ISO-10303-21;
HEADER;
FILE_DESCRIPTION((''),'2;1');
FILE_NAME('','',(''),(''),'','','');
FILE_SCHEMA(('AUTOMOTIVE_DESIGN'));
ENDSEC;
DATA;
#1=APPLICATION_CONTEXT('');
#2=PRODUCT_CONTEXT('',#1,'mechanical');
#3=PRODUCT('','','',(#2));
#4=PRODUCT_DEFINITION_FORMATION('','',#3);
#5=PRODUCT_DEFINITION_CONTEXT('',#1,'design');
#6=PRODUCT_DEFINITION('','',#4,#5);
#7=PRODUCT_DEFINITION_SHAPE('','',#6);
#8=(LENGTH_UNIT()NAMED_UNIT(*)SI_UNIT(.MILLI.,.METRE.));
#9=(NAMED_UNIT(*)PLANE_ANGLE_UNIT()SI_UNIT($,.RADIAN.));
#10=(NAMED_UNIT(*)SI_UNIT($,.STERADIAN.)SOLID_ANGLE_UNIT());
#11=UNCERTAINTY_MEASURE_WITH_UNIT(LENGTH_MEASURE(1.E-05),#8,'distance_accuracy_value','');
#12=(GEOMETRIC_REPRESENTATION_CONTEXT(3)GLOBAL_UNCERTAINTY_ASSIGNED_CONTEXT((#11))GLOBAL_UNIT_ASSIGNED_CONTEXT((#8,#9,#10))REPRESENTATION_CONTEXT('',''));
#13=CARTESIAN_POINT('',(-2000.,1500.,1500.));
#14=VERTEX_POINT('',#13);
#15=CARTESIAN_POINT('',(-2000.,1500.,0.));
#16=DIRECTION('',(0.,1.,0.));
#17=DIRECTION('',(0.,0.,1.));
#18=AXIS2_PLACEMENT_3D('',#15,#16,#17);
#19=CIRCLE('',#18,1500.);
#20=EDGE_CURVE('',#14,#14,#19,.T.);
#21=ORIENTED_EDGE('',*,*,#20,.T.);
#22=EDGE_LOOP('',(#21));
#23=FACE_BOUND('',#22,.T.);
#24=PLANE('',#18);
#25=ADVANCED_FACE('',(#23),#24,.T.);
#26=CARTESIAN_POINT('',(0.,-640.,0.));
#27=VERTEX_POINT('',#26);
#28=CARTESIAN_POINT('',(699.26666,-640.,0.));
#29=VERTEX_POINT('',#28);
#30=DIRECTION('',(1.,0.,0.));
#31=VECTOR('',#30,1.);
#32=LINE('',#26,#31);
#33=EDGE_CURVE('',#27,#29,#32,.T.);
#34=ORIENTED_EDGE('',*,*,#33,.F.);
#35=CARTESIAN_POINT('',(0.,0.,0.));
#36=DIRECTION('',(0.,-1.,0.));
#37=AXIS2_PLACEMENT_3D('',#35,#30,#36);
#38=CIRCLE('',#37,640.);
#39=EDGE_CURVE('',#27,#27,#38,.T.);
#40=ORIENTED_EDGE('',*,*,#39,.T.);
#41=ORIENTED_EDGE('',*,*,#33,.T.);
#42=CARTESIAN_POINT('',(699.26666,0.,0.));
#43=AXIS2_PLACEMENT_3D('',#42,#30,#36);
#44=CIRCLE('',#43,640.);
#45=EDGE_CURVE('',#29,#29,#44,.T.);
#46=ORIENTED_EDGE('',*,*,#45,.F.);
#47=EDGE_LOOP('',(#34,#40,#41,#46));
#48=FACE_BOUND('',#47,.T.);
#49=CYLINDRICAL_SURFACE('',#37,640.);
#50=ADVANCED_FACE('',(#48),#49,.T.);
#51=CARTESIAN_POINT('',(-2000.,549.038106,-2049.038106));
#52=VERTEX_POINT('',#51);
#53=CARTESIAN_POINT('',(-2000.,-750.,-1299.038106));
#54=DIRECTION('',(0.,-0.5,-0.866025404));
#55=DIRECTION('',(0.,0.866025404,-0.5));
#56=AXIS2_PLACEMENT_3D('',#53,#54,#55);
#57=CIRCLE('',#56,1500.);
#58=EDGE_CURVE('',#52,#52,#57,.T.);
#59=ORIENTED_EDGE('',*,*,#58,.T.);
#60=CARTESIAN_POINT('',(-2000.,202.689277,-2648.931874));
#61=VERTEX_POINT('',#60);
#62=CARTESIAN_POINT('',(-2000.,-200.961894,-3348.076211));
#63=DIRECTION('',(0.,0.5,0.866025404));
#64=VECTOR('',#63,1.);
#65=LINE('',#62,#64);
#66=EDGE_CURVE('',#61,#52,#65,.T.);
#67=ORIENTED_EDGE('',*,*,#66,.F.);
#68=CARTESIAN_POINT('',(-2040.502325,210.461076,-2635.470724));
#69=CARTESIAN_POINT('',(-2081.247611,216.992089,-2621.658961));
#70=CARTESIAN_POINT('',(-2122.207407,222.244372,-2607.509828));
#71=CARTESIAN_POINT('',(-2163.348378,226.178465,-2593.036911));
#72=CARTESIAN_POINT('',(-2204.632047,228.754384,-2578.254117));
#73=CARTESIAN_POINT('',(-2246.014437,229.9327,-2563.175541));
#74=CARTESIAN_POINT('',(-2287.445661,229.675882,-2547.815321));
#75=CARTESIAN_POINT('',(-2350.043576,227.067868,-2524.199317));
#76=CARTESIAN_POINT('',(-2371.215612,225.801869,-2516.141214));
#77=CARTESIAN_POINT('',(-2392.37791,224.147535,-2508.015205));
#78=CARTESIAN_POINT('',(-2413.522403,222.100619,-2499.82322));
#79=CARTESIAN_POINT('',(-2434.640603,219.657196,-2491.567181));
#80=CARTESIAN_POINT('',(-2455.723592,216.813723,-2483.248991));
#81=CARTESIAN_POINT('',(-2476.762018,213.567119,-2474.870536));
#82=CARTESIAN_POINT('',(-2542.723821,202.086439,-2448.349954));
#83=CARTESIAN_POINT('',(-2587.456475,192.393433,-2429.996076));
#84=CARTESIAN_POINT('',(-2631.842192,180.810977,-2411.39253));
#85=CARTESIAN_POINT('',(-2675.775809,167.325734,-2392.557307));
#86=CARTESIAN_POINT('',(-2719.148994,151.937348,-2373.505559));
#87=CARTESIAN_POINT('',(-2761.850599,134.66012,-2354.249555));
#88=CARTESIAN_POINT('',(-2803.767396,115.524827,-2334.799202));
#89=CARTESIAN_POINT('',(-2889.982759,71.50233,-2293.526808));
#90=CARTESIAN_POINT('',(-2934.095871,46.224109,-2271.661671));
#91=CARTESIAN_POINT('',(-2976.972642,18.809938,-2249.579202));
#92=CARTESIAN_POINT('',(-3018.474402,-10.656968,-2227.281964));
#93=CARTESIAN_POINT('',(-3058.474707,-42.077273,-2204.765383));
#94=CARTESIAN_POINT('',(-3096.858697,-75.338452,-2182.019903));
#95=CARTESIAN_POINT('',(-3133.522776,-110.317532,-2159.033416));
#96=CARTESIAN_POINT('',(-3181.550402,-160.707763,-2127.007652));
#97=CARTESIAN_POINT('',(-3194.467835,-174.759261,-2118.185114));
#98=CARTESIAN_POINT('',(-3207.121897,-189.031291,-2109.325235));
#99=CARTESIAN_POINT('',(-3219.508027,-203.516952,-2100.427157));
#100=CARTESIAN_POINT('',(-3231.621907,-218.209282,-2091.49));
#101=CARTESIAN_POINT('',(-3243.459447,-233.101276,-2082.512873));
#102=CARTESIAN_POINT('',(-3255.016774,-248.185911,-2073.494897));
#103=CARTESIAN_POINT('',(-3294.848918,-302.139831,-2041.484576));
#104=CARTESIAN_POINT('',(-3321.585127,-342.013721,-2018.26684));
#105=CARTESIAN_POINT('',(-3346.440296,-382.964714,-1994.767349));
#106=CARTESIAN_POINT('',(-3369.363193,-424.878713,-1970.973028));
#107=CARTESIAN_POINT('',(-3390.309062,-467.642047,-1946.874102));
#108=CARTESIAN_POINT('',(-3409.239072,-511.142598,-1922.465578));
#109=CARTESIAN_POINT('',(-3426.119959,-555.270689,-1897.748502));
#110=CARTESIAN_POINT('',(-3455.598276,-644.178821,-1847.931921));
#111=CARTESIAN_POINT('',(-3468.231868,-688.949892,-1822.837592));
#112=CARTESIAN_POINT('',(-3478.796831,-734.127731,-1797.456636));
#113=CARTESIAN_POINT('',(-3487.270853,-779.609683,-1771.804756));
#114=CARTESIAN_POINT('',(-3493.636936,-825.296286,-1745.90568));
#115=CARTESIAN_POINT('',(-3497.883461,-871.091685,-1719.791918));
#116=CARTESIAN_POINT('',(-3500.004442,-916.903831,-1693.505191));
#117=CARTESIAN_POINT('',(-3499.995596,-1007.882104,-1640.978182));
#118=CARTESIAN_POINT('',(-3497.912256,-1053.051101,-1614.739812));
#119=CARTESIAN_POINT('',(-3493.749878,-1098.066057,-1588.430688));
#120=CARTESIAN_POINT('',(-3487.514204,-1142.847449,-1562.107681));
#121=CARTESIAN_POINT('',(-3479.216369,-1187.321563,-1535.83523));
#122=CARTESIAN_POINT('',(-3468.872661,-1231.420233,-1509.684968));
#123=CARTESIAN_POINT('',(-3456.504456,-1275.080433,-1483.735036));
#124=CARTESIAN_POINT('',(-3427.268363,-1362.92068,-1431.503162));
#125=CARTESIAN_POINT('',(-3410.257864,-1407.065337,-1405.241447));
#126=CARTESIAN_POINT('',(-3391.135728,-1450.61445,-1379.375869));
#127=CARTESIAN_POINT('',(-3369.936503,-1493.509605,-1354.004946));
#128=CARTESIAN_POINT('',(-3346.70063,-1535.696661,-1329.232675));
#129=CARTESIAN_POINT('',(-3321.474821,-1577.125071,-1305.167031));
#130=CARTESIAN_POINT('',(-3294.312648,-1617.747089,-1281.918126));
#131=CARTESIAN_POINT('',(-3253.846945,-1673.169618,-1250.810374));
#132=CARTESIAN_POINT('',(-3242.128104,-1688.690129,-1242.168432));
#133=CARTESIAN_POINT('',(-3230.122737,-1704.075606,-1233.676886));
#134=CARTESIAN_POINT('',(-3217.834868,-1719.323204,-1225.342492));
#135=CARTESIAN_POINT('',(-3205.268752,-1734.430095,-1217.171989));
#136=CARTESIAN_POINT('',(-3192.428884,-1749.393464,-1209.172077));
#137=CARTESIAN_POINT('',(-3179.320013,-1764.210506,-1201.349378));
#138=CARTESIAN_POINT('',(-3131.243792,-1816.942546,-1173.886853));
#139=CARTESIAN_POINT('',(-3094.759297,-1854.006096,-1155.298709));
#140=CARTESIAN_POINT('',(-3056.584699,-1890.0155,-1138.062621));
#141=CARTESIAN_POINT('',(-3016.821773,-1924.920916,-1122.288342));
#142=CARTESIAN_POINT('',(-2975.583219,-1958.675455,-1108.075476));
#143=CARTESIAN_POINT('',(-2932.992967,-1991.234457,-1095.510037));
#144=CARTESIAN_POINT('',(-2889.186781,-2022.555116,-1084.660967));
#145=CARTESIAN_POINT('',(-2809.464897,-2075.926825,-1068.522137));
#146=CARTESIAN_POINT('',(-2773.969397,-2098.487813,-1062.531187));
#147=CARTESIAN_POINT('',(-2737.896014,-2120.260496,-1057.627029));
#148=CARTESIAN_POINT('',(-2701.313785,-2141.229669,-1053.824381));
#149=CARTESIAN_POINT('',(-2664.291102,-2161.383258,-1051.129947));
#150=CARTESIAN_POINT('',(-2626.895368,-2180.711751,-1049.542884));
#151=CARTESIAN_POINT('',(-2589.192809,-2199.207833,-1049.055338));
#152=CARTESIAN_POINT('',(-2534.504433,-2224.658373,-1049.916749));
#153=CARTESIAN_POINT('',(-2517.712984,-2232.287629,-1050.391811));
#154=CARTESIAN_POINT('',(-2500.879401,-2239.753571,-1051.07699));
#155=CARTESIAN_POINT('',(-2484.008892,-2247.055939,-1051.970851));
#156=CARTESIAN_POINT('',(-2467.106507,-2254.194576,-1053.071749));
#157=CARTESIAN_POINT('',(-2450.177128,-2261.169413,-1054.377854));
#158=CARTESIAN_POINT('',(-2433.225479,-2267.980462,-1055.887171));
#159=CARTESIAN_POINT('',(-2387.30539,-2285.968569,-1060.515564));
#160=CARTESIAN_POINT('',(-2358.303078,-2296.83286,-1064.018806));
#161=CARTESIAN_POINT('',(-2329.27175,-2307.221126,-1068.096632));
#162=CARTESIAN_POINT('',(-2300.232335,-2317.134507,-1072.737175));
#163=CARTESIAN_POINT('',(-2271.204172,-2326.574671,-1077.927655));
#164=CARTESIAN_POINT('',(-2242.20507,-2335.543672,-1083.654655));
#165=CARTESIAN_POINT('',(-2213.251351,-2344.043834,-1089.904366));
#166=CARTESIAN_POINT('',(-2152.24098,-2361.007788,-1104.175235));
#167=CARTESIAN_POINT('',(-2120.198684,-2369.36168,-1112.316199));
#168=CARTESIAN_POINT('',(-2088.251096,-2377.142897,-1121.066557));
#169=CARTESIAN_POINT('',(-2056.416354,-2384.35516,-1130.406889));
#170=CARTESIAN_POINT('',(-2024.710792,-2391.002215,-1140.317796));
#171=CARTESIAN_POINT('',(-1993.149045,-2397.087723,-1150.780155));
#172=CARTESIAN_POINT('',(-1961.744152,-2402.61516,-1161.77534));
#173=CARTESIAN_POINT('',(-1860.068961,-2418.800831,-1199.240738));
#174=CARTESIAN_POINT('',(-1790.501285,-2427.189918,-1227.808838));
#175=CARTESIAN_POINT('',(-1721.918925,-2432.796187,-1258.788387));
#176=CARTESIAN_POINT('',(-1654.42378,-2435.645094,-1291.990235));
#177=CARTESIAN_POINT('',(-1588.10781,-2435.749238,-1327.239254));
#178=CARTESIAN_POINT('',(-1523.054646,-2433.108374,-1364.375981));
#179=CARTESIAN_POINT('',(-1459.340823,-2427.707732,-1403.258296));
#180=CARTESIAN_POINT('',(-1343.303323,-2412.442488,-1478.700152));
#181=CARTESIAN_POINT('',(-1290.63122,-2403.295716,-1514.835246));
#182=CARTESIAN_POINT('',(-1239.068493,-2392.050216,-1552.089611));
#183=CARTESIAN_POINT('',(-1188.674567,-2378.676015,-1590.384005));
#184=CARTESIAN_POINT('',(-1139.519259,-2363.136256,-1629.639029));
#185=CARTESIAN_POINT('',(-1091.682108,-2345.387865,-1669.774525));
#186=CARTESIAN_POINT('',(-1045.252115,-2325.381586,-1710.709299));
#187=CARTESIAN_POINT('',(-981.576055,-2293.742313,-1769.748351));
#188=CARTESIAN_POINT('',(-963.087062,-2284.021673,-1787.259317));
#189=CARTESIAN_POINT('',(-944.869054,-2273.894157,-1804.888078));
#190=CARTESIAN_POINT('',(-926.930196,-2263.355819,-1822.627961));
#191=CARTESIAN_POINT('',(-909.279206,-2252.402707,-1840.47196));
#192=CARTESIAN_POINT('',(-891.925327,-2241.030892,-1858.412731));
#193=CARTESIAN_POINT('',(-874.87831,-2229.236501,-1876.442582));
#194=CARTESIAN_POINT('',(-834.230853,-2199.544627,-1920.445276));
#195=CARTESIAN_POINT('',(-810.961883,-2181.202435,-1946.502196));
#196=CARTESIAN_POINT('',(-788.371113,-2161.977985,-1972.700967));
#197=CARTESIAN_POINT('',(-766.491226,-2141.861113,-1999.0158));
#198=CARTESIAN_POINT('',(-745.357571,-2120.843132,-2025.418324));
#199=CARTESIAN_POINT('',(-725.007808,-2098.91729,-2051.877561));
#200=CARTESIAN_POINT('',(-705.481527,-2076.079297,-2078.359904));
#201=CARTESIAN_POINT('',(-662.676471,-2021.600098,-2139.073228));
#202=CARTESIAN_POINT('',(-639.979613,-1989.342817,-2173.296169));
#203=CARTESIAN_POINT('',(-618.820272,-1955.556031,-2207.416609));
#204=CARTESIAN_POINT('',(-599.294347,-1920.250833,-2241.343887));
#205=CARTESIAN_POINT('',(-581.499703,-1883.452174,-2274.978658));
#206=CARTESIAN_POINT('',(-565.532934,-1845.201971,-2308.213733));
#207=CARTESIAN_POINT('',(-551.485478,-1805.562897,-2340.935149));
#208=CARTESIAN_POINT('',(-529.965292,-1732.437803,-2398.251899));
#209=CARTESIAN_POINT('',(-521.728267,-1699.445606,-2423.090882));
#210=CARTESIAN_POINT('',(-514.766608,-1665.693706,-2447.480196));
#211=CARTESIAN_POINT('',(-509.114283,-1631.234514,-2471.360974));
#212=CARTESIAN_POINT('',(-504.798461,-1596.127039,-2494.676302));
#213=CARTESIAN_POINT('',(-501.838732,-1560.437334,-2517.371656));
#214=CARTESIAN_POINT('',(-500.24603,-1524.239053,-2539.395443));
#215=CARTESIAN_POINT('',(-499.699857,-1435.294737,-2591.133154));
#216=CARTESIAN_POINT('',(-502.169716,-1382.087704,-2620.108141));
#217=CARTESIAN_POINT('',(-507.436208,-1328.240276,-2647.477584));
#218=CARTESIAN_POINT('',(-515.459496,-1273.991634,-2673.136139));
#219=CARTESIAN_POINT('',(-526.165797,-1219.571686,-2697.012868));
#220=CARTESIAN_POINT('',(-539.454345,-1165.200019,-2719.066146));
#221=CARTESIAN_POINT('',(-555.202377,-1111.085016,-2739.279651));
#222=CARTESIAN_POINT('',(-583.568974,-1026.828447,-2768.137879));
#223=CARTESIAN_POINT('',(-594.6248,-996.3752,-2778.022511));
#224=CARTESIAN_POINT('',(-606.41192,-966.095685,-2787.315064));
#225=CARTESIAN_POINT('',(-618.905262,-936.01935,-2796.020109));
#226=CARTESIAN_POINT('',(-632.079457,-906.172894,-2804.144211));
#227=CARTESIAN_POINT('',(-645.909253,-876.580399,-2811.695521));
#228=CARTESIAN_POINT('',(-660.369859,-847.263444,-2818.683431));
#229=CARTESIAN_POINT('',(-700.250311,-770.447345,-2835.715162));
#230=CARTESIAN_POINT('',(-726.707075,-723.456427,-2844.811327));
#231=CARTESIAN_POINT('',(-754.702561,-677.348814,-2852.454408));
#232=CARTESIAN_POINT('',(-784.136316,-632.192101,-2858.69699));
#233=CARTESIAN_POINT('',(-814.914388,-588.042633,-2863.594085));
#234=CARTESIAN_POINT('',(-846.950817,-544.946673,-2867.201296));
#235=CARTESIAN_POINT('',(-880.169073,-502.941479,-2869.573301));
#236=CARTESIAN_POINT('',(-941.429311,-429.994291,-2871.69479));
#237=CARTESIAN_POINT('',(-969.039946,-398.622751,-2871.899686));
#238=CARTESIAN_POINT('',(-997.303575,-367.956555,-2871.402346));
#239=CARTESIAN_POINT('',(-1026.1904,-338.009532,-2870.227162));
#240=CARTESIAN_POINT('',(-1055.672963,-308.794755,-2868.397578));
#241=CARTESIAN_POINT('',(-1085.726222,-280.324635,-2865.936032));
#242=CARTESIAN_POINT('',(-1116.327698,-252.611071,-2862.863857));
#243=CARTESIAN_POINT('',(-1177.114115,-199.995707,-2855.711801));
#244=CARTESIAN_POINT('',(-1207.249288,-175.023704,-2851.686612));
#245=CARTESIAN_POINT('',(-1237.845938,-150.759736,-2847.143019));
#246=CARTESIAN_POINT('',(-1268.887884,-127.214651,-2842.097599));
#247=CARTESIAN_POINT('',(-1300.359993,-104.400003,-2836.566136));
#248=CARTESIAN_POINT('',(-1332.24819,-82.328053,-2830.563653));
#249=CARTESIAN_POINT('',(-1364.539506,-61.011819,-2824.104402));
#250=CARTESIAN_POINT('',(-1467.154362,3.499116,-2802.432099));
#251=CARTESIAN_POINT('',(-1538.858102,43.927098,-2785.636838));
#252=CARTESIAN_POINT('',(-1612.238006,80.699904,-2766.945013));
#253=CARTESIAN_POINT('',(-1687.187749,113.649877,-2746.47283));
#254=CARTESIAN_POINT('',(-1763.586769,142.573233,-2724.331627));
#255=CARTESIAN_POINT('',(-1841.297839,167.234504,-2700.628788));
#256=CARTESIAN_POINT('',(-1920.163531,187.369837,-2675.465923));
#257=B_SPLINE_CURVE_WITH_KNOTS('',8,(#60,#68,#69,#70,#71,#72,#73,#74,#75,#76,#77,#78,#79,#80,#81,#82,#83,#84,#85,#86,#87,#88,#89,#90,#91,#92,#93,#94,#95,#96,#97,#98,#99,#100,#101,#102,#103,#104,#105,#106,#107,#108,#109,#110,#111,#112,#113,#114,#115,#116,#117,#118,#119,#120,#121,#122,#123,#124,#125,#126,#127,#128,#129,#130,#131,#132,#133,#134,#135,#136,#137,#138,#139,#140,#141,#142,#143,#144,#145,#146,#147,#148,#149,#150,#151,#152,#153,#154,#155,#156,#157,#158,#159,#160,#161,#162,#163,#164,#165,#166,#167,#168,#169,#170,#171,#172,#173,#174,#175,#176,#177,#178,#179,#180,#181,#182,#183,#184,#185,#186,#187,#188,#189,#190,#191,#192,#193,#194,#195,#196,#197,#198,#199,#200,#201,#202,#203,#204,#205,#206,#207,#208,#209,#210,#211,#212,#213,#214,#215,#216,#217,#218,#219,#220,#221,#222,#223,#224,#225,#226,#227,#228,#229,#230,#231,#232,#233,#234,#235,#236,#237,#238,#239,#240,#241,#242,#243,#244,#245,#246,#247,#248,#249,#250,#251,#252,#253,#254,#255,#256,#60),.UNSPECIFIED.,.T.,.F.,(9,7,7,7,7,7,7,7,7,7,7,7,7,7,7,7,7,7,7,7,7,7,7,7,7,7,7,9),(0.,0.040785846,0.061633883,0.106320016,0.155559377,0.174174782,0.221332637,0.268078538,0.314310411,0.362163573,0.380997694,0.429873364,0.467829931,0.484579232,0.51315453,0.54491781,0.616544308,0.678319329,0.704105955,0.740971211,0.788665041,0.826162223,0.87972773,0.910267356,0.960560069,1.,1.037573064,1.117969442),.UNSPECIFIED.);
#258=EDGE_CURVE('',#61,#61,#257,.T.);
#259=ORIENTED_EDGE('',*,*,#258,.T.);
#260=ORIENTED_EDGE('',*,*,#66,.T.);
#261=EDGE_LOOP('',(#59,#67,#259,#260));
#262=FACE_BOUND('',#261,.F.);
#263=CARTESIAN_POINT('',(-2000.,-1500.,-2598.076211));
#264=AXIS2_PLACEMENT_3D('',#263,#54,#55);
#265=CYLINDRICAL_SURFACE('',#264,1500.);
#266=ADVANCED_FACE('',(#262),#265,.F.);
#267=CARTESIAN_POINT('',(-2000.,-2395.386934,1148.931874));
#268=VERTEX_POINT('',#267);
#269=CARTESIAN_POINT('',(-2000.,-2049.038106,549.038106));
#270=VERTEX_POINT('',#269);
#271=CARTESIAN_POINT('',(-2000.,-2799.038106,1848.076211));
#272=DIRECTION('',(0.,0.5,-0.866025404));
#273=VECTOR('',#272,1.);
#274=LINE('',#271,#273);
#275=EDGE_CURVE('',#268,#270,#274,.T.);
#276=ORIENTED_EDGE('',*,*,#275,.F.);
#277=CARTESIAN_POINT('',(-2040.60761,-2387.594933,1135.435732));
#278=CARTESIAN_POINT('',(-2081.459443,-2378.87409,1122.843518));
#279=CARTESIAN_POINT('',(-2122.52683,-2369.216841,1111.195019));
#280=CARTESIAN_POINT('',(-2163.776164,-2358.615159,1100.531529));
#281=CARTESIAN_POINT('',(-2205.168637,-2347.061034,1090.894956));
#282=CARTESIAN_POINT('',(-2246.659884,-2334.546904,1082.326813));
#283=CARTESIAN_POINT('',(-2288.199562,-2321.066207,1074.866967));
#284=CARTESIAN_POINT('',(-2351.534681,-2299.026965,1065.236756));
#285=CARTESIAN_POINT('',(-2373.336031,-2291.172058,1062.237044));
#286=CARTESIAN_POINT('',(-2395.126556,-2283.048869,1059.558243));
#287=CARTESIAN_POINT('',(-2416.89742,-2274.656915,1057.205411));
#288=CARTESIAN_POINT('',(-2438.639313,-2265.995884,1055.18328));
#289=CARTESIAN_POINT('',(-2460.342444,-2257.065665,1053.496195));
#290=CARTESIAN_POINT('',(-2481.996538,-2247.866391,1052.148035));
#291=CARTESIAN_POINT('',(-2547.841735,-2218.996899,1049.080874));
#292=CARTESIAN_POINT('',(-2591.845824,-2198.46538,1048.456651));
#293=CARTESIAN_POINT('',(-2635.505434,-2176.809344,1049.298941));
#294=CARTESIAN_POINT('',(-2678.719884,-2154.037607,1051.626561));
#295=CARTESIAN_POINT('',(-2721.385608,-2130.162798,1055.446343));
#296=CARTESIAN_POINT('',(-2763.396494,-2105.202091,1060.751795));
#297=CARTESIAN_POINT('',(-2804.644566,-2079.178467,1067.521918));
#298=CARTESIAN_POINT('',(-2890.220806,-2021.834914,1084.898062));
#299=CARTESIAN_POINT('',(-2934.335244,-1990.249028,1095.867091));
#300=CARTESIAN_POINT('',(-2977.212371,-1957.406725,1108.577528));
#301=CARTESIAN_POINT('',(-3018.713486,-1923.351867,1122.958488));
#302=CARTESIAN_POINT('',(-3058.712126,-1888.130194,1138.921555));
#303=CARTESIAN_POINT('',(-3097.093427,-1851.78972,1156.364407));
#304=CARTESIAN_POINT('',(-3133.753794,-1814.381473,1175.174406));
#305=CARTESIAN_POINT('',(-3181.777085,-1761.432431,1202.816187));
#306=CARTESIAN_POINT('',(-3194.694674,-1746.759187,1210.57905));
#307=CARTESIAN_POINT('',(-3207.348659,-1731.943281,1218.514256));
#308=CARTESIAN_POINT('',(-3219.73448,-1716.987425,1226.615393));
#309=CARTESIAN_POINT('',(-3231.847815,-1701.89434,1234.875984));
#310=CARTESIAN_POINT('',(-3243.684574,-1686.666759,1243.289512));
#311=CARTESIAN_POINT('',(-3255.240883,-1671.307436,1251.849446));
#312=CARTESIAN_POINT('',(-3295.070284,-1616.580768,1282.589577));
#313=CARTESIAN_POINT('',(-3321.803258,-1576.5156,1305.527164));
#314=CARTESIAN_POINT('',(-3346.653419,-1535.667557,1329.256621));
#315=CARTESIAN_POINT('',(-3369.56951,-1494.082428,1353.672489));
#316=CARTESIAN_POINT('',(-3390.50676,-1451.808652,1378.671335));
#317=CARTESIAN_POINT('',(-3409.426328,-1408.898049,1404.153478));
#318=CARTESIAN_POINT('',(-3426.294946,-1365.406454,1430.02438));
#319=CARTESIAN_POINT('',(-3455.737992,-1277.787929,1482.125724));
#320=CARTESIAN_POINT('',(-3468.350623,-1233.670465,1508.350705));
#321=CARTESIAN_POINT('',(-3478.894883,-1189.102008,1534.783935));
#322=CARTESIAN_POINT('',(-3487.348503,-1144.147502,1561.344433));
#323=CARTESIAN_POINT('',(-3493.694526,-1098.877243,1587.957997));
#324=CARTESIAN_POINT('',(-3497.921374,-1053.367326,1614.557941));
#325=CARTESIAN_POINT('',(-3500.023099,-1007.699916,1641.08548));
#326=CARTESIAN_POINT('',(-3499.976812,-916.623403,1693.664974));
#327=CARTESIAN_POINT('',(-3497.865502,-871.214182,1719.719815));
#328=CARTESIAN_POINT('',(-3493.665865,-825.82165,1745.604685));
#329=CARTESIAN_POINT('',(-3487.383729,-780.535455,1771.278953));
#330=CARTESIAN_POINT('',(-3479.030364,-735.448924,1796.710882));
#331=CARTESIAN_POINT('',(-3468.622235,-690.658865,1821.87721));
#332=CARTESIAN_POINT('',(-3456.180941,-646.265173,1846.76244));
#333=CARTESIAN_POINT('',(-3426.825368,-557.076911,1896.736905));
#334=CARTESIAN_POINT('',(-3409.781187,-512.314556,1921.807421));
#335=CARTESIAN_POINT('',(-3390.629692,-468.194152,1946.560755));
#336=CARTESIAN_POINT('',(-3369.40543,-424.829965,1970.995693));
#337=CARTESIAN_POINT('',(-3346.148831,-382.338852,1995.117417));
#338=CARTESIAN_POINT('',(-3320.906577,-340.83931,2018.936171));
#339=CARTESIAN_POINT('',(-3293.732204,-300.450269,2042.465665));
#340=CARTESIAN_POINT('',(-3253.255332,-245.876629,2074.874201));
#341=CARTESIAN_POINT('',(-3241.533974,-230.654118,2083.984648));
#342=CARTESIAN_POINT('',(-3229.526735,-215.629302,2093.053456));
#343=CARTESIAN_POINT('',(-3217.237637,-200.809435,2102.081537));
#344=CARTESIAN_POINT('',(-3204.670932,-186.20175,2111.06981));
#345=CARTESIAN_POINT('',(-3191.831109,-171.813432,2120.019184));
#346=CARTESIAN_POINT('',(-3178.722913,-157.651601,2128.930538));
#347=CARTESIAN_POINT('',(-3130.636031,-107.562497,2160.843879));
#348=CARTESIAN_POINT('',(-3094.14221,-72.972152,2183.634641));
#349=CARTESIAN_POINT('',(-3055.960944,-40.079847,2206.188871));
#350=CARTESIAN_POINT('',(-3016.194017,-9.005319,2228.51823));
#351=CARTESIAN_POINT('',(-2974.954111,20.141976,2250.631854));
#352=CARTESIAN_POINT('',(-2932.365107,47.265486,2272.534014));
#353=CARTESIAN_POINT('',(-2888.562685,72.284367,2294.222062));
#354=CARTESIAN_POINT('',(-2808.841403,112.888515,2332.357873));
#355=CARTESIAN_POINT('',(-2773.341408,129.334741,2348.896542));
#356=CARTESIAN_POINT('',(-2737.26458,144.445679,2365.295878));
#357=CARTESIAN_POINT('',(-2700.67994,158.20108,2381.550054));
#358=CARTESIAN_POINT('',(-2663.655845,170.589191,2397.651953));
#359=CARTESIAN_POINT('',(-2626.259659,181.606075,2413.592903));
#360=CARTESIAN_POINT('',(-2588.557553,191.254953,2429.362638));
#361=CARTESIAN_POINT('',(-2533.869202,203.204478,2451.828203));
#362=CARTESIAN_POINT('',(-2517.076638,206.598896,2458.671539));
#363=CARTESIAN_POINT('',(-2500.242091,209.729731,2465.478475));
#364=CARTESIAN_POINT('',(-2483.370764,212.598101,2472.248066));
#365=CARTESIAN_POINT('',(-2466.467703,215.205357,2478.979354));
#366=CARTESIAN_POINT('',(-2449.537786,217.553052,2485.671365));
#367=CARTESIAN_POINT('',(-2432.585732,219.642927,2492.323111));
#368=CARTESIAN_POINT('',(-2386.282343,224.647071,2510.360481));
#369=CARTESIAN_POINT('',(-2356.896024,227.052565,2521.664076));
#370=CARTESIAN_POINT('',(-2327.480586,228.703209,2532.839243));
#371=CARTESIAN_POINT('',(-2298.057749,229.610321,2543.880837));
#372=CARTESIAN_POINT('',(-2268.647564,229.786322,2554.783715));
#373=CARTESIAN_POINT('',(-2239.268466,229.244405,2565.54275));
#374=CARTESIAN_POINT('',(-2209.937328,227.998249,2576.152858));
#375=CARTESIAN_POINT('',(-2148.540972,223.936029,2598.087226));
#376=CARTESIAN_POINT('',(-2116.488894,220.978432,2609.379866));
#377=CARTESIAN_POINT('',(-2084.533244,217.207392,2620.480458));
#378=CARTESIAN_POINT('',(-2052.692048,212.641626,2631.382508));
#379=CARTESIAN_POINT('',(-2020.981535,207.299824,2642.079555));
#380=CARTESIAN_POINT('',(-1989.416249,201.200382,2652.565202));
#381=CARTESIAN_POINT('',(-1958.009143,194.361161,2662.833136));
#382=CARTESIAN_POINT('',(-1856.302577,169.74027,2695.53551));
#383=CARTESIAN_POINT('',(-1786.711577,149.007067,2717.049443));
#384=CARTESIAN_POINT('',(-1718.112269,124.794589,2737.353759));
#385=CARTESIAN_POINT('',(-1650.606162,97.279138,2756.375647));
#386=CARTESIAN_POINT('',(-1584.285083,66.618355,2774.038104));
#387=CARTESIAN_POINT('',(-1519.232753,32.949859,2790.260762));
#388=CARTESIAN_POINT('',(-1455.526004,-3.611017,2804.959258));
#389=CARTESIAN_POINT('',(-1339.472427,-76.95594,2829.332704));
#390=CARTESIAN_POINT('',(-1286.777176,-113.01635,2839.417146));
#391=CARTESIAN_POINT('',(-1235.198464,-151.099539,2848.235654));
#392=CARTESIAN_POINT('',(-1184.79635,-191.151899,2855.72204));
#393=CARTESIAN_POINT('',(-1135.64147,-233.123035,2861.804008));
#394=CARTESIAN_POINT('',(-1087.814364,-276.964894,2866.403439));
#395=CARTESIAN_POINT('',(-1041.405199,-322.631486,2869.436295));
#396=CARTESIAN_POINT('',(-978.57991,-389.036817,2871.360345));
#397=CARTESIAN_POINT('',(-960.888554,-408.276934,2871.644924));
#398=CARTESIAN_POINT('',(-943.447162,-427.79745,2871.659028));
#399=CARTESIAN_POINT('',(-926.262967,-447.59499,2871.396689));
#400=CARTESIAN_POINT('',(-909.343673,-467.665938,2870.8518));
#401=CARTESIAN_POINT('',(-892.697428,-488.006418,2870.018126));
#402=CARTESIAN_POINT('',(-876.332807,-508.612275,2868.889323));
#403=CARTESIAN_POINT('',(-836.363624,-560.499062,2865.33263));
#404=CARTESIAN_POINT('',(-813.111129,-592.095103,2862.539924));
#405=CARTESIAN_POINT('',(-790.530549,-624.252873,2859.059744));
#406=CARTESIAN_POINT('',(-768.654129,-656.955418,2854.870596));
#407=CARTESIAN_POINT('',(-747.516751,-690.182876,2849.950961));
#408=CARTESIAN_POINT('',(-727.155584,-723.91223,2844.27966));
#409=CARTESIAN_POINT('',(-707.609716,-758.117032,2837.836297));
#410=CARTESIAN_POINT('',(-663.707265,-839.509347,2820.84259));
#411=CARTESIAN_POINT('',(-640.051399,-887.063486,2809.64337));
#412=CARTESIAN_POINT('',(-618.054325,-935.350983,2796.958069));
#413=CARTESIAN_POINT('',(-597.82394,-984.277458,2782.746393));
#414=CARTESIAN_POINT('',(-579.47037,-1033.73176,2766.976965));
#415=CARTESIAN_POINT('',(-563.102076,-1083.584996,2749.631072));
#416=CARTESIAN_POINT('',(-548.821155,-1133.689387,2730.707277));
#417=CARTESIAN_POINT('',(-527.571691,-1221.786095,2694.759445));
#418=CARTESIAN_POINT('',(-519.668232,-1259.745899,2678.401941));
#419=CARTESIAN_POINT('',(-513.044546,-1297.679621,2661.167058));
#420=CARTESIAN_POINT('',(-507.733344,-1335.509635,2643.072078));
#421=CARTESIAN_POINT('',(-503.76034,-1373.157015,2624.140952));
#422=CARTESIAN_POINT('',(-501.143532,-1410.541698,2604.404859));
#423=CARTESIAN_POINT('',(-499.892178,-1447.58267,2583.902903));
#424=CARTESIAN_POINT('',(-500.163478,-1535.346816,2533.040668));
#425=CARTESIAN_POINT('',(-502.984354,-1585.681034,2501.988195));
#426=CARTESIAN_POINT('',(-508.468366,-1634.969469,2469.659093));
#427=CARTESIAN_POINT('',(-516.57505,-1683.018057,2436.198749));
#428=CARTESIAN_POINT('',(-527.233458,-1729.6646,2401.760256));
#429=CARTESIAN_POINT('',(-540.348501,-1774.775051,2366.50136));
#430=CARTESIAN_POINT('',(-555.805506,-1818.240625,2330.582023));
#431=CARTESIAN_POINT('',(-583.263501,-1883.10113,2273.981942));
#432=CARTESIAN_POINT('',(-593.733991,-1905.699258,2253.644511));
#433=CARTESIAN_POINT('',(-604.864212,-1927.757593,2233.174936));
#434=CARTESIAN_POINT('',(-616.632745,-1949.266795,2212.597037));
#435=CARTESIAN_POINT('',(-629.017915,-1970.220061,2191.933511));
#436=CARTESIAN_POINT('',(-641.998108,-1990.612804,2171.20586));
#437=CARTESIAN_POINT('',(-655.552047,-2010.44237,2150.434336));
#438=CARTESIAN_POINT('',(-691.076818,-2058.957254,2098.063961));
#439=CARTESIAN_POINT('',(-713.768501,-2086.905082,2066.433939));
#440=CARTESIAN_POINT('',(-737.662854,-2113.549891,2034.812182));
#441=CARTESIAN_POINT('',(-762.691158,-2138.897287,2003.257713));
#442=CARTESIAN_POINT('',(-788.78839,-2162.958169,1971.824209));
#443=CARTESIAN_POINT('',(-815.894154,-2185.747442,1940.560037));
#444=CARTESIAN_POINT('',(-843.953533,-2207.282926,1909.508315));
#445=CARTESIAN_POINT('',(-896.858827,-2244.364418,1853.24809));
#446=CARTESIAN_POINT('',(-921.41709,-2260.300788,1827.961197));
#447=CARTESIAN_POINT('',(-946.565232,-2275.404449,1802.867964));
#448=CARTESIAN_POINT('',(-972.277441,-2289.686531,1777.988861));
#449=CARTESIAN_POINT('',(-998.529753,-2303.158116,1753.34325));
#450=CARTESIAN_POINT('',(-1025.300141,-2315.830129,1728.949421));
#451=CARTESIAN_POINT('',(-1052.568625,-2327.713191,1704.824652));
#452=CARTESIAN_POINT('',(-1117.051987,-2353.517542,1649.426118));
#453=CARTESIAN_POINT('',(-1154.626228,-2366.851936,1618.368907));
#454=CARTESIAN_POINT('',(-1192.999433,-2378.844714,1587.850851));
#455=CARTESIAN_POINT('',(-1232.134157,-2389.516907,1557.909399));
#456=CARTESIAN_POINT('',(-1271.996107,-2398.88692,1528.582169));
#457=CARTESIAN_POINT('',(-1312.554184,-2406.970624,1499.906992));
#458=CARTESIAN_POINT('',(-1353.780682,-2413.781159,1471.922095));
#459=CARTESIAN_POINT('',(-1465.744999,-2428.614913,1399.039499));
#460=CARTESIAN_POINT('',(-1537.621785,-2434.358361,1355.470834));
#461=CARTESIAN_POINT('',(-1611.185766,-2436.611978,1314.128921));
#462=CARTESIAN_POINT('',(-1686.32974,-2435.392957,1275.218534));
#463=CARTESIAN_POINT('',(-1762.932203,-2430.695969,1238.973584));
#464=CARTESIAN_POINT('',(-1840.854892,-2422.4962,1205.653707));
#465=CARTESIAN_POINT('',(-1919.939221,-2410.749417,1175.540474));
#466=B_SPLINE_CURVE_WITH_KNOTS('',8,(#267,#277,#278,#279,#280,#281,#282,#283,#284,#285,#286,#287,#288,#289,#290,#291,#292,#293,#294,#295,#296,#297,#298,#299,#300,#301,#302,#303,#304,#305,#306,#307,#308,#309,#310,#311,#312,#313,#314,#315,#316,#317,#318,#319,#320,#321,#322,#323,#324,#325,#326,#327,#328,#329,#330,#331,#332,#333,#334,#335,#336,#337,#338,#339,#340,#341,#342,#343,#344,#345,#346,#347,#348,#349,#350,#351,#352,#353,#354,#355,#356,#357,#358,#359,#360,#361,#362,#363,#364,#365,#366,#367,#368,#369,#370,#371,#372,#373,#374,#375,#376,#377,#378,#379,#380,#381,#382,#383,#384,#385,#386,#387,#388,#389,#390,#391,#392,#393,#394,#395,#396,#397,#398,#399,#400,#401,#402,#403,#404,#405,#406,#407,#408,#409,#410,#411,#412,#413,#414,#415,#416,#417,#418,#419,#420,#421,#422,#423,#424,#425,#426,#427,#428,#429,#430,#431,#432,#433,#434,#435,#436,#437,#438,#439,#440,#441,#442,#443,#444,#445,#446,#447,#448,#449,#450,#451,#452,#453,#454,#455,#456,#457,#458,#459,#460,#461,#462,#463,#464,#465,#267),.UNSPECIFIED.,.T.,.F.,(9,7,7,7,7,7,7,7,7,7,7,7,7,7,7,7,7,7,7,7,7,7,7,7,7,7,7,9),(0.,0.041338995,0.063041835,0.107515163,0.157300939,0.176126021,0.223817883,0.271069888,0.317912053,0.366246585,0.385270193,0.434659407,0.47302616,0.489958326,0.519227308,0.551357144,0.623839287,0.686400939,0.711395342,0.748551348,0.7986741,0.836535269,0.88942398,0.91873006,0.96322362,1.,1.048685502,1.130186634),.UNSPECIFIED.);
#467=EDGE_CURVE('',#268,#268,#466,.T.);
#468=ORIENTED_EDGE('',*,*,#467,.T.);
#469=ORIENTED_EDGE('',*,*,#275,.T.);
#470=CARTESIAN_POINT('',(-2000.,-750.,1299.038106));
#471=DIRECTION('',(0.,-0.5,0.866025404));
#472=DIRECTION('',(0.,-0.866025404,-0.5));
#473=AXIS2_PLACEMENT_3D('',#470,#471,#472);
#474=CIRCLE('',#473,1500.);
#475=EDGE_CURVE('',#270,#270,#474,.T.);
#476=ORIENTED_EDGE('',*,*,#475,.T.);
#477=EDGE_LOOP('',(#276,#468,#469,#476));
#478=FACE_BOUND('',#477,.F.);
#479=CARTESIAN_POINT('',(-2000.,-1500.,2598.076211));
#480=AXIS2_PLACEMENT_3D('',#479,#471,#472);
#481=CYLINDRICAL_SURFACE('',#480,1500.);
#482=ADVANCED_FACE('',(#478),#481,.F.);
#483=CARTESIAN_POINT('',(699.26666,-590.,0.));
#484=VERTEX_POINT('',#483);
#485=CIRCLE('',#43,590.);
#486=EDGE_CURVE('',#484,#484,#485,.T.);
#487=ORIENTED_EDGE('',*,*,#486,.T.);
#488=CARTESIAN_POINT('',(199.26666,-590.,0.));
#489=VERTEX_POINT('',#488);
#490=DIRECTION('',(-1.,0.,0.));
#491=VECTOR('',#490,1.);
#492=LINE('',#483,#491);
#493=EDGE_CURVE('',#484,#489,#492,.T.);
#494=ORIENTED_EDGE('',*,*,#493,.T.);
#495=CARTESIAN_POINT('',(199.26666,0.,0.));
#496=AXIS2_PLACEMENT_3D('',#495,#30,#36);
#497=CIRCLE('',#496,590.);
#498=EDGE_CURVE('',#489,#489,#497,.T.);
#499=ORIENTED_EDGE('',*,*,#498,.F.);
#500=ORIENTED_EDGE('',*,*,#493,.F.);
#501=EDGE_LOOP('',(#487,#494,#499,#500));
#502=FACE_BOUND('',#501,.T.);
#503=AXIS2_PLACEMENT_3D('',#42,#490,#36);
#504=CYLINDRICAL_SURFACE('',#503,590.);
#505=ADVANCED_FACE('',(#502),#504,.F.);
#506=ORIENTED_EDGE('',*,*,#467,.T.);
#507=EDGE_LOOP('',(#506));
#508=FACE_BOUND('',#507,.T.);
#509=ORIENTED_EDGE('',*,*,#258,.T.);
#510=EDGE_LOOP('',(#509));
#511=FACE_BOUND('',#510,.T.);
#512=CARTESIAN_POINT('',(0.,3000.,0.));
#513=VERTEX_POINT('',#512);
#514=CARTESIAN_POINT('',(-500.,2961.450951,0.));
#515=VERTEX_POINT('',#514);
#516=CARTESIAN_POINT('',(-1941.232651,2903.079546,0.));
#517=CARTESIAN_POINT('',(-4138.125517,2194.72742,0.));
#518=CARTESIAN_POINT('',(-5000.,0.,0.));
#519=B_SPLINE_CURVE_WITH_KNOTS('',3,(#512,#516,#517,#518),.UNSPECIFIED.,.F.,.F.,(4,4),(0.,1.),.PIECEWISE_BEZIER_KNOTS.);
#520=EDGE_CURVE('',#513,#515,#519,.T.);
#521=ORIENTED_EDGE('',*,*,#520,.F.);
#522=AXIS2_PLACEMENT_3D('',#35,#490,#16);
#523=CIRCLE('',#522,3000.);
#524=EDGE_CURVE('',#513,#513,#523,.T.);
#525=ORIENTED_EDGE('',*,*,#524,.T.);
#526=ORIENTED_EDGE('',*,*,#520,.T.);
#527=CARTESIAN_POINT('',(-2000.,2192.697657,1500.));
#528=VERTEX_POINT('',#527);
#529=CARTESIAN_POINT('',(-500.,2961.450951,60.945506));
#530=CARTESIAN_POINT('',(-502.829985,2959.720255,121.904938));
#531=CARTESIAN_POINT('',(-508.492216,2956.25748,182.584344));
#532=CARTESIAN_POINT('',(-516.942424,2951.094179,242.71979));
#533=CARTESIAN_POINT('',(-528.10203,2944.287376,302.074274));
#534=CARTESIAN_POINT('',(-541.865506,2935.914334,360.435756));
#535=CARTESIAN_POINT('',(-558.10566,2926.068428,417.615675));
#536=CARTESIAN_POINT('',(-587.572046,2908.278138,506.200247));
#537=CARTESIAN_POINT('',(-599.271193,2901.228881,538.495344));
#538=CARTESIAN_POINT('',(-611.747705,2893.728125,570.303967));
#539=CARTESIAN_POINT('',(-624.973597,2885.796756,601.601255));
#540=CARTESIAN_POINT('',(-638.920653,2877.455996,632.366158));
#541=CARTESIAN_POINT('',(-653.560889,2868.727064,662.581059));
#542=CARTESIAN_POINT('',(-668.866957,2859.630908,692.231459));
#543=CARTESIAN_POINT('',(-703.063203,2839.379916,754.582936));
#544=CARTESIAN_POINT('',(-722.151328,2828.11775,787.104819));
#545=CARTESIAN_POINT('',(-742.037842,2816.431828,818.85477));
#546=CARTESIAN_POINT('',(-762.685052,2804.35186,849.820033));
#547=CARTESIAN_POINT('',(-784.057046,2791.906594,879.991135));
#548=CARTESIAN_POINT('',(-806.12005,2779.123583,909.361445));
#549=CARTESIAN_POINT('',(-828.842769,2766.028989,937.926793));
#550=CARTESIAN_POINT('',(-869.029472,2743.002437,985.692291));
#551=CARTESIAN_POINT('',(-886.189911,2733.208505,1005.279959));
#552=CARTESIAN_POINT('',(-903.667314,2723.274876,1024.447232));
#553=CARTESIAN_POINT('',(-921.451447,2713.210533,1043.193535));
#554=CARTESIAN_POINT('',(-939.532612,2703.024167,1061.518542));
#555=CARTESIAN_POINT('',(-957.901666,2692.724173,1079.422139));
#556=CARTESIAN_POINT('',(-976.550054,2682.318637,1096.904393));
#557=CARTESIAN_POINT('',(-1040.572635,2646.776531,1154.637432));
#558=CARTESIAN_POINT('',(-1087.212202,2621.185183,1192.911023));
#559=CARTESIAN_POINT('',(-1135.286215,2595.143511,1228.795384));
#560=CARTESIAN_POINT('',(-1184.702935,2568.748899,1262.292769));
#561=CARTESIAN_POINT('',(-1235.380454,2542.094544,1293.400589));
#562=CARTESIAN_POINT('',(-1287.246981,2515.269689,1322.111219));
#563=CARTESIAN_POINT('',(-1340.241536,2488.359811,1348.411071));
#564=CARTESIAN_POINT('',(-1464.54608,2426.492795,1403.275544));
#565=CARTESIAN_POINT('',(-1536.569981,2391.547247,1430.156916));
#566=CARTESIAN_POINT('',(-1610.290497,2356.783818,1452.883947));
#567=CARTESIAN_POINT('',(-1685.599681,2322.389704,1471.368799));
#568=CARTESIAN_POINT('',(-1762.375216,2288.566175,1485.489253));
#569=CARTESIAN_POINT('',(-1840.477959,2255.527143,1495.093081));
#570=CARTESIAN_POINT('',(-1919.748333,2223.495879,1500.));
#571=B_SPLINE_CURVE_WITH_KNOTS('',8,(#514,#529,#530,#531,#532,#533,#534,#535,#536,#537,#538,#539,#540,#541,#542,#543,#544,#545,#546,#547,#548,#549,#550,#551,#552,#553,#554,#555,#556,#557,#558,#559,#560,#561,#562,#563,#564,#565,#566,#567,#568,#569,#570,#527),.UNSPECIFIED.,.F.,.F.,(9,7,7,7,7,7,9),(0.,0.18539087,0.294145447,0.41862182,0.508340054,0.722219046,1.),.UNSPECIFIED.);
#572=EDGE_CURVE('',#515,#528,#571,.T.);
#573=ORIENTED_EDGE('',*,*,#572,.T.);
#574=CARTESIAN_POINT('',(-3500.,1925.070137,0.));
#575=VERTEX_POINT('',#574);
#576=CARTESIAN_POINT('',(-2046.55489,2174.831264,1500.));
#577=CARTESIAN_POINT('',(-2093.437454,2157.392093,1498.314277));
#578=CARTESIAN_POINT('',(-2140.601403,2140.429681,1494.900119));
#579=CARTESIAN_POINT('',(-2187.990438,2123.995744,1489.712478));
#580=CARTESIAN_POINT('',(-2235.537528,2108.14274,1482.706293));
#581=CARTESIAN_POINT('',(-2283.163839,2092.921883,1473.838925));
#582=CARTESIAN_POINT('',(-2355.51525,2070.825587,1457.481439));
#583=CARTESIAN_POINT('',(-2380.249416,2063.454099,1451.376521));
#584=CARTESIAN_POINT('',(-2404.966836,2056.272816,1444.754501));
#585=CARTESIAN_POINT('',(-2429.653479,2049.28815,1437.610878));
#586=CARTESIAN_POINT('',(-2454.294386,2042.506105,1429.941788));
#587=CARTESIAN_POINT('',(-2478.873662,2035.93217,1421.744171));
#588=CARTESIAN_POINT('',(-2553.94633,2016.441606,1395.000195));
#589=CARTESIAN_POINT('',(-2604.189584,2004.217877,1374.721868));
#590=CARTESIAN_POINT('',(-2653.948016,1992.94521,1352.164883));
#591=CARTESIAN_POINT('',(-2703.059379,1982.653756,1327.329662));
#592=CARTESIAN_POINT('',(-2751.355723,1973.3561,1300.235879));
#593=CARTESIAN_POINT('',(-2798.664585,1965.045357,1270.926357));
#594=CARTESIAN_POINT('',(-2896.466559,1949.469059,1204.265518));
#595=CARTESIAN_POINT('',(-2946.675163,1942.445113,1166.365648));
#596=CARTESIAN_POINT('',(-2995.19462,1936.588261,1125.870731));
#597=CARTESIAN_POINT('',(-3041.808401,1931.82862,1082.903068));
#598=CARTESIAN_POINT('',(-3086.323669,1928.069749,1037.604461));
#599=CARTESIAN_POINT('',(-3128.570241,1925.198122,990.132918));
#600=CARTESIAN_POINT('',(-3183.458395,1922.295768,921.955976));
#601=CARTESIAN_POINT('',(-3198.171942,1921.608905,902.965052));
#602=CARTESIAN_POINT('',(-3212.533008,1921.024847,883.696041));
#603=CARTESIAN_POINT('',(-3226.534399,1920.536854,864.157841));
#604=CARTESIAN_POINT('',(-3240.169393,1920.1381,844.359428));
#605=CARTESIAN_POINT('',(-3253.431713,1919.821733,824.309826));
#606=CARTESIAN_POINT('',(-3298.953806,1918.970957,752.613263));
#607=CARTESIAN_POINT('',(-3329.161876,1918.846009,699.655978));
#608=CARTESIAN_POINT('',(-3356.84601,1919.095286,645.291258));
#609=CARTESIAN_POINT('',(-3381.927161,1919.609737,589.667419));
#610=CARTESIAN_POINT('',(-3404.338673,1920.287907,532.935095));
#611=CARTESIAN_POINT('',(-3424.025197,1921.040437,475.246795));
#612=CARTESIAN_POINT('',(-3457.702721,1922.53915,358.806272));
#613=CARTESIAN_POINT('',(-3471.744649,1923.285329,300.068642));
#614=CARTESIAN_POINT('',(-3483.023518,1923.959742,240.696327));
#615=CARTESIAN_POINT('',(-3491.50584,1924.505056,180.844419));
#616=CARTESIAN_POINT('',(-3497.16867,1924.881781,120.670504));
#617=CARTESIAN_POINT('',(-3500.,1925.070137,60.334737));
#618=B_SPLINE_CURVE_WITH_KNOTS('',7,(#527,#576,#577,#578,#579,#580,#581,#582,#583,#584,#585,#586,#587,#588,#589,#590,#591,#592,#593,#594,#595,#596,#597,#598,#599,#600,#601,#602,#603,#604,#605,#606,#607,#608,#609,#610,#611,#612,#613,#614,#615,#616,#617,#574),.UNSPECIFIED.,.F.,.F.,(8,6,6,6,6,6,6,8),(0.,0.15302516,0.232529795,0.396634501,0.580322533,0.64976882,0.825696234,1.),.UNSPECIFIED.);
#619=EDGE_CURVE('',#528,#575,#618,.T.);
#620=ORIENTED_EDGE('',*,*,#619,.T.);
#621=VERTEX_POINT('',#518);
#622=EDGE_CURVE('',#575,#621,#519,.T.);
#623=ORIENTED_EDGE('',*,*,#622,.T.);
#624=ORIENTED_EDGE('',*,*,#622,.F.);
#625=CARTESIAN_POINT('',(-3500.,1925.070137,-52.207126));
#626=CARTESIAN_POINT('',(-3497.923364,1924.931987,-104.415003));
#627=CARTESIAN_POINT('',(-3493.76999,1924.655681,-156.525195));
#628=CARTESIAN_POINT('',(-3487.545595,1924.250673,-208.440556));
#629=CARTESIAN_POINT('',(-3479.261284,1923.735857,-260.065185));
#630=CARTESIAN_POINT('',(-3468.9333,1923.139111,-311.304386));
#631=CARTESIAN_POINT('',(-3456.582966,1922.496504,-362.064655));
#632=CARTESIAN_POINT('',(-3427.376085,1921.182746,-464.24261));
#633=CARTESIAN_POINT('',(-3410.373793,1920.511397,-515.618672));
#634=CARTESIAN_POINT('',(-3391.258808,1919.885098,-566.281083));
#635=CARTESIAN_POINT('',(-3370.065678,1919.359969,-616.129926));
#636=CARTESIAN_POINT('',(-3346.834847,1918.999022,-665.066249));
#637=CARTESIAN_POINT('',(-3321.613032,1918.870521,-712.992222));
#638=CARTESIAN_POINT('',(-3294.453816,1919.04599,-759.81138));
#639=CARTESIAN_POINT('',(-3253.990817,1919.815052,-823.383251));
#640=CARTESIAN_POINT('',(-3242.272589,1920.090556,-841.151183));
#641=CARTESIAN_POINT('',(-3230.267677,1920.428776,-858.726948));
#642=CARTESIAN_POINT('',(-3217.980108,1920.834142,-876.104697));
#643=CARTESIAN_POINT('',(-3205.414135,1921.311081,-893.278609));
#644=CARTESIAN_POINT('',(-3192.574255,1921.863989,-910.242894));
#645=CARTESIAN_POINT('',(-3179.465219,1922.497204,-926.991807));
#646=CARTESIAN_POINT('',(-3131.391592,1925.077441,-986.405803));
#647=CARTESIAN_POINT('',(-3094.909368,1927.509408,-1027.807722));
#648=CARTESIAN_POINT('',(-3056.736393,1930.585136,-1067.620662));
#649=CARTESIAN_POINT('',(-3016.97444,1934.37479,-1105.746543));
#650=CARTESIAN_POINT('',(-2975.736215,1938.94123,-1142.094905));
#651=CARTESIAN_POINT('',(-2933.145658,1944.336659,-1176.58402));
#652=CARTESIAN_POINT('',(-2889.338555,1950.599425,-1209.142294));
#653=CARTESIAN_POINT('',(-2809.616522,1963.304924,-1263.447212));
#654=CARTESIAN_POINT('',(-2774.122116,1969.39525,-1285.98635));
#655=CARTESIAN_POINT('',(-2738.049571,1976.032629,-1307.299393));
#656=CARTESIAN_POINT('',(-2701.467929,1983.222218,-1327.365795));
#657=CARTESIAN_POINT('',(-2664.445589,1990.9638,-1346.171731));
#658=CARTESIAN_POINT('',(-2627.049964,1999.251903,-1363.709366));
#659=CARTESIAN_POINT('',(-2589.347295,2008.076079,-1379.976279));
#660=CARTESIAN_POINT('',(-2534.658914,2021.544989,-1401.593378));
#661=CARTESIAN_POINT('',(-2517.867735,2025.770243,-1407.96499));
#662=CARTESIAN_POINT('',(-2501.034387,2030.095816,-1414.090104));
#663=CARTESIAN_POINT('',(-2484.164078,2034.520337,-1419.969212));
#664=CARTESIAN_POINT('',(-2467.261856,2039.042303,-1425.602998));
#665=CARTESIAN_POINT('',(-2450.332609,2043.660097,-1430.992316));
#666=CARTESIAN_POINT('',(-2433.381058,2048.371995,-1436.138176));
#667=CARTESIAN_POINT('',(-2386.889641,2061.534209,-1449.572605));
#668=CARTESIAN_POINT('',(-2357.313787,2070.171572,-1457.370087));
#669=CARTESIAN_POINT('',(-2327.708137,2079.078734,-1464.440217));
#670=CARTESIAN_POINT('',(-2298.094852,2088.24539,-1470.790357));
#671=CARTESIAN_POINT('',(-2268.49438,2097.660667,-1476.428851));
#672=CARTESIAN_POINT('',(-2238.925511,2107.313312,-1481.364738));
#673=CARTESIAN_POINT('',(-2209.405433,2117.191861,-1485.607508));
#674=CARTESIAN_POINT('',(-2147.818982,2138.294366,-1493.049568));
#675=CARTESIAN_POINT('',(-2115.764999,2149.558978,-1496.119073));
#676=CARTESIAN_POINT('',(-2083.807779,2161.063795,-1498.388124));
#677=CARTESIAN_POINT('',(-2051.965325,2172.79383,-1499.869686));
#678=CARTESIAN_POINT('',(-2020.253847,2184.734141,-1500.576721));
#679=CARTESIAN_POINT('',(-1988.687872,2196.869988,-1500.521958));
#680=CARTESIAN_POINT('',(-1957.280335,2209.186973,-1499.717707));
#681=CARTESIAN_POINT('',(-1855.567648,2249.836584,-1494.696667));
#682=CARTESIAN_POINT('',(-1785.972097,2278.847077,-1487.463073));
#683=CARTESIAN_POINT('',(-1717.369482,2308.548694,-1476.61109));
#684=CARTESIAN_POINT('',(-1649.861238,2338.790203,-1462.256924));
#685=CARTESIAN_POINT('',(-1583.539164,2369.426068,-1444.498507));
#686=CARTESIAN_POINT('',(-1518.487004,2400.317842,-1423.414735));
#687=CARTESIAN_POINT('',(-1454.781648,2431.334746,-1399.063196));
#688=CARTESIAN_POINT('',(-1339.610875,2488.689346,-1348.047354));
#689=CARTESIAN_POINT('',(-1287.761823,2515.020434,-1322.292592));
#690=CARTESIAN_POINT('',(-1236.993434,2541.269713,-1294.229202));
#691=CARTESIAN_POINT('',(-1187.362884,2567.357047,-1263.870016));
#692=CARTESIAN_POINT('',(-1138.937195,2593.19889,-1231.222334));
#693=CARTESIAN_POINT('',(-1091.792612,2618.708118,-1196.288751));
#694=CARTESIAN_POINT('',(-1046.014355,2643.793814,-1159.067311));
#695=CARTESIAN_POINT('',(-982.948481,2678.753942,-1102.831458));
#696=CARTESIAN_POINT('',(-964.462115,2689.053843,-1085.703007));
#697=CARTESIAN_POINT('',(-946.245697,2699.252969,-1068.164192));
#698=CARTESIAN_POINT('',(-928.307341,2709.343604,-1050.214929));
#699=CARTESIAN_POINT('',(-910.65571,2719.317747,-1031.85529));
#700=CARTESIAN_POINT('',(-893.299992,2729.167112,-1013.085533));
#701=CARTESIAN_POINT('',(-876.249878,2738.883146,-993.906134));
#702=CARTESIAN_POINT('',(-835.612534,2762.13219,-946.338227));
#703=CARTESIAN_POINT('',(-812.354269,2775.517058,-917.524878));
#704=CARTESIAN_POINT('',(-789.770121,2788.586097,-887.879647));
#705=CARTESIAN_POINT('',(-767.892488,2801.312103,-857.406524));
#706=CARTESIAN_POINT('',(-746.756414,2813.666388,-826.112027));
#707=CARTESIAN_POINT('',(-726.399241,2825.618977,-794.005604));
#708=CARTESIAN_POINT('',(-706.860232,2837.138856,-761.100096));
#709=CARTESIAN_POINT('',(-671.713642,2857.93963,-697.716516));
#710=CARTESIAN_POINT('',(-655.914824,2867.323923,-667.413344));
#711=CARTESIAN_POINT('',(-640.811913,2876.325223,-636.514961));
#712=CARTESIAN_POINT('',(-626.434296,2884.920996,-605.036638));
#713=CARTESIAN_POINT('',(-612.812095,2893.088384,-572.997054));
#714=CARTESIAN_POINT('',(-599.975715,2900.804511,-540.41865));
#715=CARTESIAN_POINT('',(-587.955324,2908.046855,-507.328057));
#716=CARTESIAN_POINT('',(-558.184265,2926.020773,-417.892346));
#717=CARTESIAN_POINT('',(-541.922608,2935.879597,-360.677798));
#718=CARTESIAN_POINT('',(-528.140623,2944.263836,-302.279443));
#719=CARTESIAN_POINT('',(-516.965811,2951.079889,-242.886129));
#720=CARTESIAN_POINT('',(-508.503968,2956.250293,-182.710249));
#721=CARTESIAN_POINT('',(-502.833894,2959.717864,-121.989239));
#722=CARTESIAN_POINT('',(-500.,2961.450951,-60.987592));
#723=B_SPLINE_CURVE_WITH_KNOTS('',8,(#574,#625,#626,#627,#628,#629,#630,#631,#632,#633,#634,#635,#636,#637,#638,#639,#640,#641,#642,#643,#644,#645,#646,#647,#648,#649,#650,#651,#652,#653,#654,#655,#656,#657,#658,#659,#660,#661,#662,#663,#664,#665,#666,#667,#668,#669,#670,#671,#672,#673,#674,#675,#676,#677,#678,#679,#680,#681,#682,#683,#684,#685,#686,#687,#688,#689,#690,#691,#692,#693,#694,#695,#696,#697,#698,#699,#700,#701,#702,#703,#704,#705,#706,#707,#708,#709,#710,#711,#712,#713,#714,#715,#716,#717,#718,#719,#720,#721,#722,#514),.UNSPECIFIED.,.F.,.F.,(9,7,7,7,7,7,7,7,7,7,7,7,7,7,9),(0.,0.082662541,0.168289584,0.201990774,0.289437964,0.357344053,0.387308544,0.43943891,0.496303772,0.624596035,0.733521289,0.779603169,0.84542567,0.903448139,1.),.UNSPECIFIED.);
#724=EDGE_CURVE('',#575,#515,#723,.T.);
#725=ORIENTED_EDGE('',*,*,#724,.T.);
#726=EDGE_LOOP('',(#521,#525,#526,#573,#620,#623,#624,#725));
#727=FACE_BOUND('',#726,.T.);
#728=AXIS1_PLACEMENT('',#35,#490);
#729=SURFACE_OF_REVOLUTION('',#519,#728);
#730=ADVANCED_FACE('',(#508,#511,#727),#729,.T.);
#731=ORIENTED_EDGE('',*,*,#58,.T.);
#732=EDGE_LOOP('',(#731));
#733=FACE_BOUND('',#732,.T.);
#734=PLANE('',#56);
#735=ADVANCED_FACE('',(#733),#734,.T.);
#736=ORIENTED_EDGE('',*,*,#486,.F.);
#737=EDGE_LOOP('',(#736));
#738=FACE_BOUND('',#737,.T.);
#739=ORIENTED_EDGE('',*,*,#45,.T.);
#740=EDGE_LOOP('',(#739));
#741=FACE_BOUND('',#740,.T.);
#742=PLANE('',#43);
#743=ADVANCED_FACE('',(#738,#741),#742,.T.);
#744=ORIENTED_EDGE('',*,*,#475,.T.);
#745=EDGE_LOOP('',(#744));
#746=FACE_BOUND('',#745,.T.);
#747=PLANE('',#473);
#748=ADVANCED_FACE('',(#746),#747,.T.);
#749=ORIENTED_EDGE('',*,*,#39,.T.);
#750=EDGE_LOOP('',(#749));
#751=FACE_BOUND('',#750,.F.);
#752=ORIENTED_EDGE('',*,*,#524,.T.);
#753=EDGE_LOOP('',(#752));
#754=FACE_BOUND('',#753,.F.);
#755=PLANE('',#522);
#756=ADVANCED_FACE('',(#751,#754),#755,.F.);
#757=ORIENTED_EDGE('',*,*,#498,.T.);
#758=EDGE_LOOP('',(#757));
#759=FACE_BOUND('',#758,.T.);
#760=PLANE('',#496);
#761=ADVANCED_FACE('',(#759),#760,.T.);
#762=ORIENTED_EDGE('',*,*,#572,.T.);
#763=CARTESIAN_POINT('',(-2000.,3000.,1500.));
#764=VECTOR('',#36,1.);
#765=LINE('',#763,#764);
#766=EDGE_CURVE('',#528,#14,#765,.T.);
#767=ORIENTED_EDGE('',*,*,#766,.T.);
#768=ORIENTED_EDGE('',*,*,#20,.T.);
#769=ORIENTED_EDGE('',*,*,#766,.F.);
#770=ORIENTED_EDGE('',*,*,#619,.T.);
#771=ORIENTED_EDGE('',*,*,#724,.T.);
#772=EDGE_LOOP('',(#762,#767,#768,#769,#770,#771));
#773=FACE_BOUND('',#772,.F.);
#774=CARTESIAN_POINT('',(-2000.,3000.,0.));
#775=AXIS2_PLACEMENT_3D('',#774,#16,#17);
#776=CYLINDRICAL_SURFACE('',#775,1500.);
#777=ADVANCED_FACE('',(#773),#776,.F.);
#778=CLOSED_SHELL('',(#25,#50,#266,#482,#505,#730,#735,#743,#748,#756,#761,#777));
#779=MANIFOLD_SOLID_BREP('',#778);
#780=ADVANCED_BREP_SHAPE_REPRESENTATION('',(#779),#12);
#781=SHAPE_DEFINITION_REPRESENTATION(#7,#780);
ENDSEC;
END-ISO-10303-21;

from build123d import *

# Parameters (mm, degrees)
SKETCH2_R          = 1500
CUT_EXTRUDE1_DEPTH = 1500
CIRPATTERN1_COUNT  = 3


with BuildPart() as part:
    # Sketch1 → Revolve1 (revolve)
    with BuildSketch(Plane.XY):
        with BuildLine():
            Line((0, 0), (-5000, 0))
            add(Edge.make_bspline(
                [(0, 3000), (-1941.232650508, 2903.079546126), (-4138.125517244, 2194.727419517), (-5000, 0)],
                knots=[0, 0, 0, 0, 1, 1, 1, 1], degree=3))
            Line((0, 3000), (0, 0))
        make_face()
    revolve(axis=Axis((0, 0, 0), (-1, 0, 0)))

    # Sketch2 → Cut-Extrude1 (cut)
    with BuildSketch(Plane(origin=(0, 3000, 0), x_dir=(1, 0, 0), z_dir=(0, 1, 0))):
        with Locations(Location((-2000, 0, 0), (0, 0, 270))):
            Circle(SKETCH2_R)
    cut_extrude1 = extrude(amount=-CUT_EXTRUDE1_DEPTH, mode=Mode.SUBTRACT)

    # CirPattern1: Cut-Extrude1 ×3 about axis
    cirpattern1_axis = Axis((0, 0, 0), (1, 0, 0))
    for i in range(1, CIRPATTERN1_COUNT):
        add(cut_extrude1.rotate(cirpattern1_axis, i * 360 / CIRPATTERN1_COUNT), mode=Mode.SUBTRACT)

    # Sketch5 → Revolve2 (revolve)
    with BuildSketch(Plane(origin=(0, 0, 0), x_dir=(-1, 0, 0), z_dir=(0, -0.8660254037844363, -0.5000000000000043)), mode=Mode.PRIVATE) as revolve2_sk:
        Polygon((0, 0), (0, 640), (-699.266659893, 640), (-699.266659893, 590), (-199.266659893, 590), (-199.266659893, 0), align=None)
    revolve(revolve2_sk.sketch.rotate(Axis((0, 0, 0), (1, 0, 0)), 240), axis=Axis((0, 0, 0), (1, 0, 0)))


solid = part.part
